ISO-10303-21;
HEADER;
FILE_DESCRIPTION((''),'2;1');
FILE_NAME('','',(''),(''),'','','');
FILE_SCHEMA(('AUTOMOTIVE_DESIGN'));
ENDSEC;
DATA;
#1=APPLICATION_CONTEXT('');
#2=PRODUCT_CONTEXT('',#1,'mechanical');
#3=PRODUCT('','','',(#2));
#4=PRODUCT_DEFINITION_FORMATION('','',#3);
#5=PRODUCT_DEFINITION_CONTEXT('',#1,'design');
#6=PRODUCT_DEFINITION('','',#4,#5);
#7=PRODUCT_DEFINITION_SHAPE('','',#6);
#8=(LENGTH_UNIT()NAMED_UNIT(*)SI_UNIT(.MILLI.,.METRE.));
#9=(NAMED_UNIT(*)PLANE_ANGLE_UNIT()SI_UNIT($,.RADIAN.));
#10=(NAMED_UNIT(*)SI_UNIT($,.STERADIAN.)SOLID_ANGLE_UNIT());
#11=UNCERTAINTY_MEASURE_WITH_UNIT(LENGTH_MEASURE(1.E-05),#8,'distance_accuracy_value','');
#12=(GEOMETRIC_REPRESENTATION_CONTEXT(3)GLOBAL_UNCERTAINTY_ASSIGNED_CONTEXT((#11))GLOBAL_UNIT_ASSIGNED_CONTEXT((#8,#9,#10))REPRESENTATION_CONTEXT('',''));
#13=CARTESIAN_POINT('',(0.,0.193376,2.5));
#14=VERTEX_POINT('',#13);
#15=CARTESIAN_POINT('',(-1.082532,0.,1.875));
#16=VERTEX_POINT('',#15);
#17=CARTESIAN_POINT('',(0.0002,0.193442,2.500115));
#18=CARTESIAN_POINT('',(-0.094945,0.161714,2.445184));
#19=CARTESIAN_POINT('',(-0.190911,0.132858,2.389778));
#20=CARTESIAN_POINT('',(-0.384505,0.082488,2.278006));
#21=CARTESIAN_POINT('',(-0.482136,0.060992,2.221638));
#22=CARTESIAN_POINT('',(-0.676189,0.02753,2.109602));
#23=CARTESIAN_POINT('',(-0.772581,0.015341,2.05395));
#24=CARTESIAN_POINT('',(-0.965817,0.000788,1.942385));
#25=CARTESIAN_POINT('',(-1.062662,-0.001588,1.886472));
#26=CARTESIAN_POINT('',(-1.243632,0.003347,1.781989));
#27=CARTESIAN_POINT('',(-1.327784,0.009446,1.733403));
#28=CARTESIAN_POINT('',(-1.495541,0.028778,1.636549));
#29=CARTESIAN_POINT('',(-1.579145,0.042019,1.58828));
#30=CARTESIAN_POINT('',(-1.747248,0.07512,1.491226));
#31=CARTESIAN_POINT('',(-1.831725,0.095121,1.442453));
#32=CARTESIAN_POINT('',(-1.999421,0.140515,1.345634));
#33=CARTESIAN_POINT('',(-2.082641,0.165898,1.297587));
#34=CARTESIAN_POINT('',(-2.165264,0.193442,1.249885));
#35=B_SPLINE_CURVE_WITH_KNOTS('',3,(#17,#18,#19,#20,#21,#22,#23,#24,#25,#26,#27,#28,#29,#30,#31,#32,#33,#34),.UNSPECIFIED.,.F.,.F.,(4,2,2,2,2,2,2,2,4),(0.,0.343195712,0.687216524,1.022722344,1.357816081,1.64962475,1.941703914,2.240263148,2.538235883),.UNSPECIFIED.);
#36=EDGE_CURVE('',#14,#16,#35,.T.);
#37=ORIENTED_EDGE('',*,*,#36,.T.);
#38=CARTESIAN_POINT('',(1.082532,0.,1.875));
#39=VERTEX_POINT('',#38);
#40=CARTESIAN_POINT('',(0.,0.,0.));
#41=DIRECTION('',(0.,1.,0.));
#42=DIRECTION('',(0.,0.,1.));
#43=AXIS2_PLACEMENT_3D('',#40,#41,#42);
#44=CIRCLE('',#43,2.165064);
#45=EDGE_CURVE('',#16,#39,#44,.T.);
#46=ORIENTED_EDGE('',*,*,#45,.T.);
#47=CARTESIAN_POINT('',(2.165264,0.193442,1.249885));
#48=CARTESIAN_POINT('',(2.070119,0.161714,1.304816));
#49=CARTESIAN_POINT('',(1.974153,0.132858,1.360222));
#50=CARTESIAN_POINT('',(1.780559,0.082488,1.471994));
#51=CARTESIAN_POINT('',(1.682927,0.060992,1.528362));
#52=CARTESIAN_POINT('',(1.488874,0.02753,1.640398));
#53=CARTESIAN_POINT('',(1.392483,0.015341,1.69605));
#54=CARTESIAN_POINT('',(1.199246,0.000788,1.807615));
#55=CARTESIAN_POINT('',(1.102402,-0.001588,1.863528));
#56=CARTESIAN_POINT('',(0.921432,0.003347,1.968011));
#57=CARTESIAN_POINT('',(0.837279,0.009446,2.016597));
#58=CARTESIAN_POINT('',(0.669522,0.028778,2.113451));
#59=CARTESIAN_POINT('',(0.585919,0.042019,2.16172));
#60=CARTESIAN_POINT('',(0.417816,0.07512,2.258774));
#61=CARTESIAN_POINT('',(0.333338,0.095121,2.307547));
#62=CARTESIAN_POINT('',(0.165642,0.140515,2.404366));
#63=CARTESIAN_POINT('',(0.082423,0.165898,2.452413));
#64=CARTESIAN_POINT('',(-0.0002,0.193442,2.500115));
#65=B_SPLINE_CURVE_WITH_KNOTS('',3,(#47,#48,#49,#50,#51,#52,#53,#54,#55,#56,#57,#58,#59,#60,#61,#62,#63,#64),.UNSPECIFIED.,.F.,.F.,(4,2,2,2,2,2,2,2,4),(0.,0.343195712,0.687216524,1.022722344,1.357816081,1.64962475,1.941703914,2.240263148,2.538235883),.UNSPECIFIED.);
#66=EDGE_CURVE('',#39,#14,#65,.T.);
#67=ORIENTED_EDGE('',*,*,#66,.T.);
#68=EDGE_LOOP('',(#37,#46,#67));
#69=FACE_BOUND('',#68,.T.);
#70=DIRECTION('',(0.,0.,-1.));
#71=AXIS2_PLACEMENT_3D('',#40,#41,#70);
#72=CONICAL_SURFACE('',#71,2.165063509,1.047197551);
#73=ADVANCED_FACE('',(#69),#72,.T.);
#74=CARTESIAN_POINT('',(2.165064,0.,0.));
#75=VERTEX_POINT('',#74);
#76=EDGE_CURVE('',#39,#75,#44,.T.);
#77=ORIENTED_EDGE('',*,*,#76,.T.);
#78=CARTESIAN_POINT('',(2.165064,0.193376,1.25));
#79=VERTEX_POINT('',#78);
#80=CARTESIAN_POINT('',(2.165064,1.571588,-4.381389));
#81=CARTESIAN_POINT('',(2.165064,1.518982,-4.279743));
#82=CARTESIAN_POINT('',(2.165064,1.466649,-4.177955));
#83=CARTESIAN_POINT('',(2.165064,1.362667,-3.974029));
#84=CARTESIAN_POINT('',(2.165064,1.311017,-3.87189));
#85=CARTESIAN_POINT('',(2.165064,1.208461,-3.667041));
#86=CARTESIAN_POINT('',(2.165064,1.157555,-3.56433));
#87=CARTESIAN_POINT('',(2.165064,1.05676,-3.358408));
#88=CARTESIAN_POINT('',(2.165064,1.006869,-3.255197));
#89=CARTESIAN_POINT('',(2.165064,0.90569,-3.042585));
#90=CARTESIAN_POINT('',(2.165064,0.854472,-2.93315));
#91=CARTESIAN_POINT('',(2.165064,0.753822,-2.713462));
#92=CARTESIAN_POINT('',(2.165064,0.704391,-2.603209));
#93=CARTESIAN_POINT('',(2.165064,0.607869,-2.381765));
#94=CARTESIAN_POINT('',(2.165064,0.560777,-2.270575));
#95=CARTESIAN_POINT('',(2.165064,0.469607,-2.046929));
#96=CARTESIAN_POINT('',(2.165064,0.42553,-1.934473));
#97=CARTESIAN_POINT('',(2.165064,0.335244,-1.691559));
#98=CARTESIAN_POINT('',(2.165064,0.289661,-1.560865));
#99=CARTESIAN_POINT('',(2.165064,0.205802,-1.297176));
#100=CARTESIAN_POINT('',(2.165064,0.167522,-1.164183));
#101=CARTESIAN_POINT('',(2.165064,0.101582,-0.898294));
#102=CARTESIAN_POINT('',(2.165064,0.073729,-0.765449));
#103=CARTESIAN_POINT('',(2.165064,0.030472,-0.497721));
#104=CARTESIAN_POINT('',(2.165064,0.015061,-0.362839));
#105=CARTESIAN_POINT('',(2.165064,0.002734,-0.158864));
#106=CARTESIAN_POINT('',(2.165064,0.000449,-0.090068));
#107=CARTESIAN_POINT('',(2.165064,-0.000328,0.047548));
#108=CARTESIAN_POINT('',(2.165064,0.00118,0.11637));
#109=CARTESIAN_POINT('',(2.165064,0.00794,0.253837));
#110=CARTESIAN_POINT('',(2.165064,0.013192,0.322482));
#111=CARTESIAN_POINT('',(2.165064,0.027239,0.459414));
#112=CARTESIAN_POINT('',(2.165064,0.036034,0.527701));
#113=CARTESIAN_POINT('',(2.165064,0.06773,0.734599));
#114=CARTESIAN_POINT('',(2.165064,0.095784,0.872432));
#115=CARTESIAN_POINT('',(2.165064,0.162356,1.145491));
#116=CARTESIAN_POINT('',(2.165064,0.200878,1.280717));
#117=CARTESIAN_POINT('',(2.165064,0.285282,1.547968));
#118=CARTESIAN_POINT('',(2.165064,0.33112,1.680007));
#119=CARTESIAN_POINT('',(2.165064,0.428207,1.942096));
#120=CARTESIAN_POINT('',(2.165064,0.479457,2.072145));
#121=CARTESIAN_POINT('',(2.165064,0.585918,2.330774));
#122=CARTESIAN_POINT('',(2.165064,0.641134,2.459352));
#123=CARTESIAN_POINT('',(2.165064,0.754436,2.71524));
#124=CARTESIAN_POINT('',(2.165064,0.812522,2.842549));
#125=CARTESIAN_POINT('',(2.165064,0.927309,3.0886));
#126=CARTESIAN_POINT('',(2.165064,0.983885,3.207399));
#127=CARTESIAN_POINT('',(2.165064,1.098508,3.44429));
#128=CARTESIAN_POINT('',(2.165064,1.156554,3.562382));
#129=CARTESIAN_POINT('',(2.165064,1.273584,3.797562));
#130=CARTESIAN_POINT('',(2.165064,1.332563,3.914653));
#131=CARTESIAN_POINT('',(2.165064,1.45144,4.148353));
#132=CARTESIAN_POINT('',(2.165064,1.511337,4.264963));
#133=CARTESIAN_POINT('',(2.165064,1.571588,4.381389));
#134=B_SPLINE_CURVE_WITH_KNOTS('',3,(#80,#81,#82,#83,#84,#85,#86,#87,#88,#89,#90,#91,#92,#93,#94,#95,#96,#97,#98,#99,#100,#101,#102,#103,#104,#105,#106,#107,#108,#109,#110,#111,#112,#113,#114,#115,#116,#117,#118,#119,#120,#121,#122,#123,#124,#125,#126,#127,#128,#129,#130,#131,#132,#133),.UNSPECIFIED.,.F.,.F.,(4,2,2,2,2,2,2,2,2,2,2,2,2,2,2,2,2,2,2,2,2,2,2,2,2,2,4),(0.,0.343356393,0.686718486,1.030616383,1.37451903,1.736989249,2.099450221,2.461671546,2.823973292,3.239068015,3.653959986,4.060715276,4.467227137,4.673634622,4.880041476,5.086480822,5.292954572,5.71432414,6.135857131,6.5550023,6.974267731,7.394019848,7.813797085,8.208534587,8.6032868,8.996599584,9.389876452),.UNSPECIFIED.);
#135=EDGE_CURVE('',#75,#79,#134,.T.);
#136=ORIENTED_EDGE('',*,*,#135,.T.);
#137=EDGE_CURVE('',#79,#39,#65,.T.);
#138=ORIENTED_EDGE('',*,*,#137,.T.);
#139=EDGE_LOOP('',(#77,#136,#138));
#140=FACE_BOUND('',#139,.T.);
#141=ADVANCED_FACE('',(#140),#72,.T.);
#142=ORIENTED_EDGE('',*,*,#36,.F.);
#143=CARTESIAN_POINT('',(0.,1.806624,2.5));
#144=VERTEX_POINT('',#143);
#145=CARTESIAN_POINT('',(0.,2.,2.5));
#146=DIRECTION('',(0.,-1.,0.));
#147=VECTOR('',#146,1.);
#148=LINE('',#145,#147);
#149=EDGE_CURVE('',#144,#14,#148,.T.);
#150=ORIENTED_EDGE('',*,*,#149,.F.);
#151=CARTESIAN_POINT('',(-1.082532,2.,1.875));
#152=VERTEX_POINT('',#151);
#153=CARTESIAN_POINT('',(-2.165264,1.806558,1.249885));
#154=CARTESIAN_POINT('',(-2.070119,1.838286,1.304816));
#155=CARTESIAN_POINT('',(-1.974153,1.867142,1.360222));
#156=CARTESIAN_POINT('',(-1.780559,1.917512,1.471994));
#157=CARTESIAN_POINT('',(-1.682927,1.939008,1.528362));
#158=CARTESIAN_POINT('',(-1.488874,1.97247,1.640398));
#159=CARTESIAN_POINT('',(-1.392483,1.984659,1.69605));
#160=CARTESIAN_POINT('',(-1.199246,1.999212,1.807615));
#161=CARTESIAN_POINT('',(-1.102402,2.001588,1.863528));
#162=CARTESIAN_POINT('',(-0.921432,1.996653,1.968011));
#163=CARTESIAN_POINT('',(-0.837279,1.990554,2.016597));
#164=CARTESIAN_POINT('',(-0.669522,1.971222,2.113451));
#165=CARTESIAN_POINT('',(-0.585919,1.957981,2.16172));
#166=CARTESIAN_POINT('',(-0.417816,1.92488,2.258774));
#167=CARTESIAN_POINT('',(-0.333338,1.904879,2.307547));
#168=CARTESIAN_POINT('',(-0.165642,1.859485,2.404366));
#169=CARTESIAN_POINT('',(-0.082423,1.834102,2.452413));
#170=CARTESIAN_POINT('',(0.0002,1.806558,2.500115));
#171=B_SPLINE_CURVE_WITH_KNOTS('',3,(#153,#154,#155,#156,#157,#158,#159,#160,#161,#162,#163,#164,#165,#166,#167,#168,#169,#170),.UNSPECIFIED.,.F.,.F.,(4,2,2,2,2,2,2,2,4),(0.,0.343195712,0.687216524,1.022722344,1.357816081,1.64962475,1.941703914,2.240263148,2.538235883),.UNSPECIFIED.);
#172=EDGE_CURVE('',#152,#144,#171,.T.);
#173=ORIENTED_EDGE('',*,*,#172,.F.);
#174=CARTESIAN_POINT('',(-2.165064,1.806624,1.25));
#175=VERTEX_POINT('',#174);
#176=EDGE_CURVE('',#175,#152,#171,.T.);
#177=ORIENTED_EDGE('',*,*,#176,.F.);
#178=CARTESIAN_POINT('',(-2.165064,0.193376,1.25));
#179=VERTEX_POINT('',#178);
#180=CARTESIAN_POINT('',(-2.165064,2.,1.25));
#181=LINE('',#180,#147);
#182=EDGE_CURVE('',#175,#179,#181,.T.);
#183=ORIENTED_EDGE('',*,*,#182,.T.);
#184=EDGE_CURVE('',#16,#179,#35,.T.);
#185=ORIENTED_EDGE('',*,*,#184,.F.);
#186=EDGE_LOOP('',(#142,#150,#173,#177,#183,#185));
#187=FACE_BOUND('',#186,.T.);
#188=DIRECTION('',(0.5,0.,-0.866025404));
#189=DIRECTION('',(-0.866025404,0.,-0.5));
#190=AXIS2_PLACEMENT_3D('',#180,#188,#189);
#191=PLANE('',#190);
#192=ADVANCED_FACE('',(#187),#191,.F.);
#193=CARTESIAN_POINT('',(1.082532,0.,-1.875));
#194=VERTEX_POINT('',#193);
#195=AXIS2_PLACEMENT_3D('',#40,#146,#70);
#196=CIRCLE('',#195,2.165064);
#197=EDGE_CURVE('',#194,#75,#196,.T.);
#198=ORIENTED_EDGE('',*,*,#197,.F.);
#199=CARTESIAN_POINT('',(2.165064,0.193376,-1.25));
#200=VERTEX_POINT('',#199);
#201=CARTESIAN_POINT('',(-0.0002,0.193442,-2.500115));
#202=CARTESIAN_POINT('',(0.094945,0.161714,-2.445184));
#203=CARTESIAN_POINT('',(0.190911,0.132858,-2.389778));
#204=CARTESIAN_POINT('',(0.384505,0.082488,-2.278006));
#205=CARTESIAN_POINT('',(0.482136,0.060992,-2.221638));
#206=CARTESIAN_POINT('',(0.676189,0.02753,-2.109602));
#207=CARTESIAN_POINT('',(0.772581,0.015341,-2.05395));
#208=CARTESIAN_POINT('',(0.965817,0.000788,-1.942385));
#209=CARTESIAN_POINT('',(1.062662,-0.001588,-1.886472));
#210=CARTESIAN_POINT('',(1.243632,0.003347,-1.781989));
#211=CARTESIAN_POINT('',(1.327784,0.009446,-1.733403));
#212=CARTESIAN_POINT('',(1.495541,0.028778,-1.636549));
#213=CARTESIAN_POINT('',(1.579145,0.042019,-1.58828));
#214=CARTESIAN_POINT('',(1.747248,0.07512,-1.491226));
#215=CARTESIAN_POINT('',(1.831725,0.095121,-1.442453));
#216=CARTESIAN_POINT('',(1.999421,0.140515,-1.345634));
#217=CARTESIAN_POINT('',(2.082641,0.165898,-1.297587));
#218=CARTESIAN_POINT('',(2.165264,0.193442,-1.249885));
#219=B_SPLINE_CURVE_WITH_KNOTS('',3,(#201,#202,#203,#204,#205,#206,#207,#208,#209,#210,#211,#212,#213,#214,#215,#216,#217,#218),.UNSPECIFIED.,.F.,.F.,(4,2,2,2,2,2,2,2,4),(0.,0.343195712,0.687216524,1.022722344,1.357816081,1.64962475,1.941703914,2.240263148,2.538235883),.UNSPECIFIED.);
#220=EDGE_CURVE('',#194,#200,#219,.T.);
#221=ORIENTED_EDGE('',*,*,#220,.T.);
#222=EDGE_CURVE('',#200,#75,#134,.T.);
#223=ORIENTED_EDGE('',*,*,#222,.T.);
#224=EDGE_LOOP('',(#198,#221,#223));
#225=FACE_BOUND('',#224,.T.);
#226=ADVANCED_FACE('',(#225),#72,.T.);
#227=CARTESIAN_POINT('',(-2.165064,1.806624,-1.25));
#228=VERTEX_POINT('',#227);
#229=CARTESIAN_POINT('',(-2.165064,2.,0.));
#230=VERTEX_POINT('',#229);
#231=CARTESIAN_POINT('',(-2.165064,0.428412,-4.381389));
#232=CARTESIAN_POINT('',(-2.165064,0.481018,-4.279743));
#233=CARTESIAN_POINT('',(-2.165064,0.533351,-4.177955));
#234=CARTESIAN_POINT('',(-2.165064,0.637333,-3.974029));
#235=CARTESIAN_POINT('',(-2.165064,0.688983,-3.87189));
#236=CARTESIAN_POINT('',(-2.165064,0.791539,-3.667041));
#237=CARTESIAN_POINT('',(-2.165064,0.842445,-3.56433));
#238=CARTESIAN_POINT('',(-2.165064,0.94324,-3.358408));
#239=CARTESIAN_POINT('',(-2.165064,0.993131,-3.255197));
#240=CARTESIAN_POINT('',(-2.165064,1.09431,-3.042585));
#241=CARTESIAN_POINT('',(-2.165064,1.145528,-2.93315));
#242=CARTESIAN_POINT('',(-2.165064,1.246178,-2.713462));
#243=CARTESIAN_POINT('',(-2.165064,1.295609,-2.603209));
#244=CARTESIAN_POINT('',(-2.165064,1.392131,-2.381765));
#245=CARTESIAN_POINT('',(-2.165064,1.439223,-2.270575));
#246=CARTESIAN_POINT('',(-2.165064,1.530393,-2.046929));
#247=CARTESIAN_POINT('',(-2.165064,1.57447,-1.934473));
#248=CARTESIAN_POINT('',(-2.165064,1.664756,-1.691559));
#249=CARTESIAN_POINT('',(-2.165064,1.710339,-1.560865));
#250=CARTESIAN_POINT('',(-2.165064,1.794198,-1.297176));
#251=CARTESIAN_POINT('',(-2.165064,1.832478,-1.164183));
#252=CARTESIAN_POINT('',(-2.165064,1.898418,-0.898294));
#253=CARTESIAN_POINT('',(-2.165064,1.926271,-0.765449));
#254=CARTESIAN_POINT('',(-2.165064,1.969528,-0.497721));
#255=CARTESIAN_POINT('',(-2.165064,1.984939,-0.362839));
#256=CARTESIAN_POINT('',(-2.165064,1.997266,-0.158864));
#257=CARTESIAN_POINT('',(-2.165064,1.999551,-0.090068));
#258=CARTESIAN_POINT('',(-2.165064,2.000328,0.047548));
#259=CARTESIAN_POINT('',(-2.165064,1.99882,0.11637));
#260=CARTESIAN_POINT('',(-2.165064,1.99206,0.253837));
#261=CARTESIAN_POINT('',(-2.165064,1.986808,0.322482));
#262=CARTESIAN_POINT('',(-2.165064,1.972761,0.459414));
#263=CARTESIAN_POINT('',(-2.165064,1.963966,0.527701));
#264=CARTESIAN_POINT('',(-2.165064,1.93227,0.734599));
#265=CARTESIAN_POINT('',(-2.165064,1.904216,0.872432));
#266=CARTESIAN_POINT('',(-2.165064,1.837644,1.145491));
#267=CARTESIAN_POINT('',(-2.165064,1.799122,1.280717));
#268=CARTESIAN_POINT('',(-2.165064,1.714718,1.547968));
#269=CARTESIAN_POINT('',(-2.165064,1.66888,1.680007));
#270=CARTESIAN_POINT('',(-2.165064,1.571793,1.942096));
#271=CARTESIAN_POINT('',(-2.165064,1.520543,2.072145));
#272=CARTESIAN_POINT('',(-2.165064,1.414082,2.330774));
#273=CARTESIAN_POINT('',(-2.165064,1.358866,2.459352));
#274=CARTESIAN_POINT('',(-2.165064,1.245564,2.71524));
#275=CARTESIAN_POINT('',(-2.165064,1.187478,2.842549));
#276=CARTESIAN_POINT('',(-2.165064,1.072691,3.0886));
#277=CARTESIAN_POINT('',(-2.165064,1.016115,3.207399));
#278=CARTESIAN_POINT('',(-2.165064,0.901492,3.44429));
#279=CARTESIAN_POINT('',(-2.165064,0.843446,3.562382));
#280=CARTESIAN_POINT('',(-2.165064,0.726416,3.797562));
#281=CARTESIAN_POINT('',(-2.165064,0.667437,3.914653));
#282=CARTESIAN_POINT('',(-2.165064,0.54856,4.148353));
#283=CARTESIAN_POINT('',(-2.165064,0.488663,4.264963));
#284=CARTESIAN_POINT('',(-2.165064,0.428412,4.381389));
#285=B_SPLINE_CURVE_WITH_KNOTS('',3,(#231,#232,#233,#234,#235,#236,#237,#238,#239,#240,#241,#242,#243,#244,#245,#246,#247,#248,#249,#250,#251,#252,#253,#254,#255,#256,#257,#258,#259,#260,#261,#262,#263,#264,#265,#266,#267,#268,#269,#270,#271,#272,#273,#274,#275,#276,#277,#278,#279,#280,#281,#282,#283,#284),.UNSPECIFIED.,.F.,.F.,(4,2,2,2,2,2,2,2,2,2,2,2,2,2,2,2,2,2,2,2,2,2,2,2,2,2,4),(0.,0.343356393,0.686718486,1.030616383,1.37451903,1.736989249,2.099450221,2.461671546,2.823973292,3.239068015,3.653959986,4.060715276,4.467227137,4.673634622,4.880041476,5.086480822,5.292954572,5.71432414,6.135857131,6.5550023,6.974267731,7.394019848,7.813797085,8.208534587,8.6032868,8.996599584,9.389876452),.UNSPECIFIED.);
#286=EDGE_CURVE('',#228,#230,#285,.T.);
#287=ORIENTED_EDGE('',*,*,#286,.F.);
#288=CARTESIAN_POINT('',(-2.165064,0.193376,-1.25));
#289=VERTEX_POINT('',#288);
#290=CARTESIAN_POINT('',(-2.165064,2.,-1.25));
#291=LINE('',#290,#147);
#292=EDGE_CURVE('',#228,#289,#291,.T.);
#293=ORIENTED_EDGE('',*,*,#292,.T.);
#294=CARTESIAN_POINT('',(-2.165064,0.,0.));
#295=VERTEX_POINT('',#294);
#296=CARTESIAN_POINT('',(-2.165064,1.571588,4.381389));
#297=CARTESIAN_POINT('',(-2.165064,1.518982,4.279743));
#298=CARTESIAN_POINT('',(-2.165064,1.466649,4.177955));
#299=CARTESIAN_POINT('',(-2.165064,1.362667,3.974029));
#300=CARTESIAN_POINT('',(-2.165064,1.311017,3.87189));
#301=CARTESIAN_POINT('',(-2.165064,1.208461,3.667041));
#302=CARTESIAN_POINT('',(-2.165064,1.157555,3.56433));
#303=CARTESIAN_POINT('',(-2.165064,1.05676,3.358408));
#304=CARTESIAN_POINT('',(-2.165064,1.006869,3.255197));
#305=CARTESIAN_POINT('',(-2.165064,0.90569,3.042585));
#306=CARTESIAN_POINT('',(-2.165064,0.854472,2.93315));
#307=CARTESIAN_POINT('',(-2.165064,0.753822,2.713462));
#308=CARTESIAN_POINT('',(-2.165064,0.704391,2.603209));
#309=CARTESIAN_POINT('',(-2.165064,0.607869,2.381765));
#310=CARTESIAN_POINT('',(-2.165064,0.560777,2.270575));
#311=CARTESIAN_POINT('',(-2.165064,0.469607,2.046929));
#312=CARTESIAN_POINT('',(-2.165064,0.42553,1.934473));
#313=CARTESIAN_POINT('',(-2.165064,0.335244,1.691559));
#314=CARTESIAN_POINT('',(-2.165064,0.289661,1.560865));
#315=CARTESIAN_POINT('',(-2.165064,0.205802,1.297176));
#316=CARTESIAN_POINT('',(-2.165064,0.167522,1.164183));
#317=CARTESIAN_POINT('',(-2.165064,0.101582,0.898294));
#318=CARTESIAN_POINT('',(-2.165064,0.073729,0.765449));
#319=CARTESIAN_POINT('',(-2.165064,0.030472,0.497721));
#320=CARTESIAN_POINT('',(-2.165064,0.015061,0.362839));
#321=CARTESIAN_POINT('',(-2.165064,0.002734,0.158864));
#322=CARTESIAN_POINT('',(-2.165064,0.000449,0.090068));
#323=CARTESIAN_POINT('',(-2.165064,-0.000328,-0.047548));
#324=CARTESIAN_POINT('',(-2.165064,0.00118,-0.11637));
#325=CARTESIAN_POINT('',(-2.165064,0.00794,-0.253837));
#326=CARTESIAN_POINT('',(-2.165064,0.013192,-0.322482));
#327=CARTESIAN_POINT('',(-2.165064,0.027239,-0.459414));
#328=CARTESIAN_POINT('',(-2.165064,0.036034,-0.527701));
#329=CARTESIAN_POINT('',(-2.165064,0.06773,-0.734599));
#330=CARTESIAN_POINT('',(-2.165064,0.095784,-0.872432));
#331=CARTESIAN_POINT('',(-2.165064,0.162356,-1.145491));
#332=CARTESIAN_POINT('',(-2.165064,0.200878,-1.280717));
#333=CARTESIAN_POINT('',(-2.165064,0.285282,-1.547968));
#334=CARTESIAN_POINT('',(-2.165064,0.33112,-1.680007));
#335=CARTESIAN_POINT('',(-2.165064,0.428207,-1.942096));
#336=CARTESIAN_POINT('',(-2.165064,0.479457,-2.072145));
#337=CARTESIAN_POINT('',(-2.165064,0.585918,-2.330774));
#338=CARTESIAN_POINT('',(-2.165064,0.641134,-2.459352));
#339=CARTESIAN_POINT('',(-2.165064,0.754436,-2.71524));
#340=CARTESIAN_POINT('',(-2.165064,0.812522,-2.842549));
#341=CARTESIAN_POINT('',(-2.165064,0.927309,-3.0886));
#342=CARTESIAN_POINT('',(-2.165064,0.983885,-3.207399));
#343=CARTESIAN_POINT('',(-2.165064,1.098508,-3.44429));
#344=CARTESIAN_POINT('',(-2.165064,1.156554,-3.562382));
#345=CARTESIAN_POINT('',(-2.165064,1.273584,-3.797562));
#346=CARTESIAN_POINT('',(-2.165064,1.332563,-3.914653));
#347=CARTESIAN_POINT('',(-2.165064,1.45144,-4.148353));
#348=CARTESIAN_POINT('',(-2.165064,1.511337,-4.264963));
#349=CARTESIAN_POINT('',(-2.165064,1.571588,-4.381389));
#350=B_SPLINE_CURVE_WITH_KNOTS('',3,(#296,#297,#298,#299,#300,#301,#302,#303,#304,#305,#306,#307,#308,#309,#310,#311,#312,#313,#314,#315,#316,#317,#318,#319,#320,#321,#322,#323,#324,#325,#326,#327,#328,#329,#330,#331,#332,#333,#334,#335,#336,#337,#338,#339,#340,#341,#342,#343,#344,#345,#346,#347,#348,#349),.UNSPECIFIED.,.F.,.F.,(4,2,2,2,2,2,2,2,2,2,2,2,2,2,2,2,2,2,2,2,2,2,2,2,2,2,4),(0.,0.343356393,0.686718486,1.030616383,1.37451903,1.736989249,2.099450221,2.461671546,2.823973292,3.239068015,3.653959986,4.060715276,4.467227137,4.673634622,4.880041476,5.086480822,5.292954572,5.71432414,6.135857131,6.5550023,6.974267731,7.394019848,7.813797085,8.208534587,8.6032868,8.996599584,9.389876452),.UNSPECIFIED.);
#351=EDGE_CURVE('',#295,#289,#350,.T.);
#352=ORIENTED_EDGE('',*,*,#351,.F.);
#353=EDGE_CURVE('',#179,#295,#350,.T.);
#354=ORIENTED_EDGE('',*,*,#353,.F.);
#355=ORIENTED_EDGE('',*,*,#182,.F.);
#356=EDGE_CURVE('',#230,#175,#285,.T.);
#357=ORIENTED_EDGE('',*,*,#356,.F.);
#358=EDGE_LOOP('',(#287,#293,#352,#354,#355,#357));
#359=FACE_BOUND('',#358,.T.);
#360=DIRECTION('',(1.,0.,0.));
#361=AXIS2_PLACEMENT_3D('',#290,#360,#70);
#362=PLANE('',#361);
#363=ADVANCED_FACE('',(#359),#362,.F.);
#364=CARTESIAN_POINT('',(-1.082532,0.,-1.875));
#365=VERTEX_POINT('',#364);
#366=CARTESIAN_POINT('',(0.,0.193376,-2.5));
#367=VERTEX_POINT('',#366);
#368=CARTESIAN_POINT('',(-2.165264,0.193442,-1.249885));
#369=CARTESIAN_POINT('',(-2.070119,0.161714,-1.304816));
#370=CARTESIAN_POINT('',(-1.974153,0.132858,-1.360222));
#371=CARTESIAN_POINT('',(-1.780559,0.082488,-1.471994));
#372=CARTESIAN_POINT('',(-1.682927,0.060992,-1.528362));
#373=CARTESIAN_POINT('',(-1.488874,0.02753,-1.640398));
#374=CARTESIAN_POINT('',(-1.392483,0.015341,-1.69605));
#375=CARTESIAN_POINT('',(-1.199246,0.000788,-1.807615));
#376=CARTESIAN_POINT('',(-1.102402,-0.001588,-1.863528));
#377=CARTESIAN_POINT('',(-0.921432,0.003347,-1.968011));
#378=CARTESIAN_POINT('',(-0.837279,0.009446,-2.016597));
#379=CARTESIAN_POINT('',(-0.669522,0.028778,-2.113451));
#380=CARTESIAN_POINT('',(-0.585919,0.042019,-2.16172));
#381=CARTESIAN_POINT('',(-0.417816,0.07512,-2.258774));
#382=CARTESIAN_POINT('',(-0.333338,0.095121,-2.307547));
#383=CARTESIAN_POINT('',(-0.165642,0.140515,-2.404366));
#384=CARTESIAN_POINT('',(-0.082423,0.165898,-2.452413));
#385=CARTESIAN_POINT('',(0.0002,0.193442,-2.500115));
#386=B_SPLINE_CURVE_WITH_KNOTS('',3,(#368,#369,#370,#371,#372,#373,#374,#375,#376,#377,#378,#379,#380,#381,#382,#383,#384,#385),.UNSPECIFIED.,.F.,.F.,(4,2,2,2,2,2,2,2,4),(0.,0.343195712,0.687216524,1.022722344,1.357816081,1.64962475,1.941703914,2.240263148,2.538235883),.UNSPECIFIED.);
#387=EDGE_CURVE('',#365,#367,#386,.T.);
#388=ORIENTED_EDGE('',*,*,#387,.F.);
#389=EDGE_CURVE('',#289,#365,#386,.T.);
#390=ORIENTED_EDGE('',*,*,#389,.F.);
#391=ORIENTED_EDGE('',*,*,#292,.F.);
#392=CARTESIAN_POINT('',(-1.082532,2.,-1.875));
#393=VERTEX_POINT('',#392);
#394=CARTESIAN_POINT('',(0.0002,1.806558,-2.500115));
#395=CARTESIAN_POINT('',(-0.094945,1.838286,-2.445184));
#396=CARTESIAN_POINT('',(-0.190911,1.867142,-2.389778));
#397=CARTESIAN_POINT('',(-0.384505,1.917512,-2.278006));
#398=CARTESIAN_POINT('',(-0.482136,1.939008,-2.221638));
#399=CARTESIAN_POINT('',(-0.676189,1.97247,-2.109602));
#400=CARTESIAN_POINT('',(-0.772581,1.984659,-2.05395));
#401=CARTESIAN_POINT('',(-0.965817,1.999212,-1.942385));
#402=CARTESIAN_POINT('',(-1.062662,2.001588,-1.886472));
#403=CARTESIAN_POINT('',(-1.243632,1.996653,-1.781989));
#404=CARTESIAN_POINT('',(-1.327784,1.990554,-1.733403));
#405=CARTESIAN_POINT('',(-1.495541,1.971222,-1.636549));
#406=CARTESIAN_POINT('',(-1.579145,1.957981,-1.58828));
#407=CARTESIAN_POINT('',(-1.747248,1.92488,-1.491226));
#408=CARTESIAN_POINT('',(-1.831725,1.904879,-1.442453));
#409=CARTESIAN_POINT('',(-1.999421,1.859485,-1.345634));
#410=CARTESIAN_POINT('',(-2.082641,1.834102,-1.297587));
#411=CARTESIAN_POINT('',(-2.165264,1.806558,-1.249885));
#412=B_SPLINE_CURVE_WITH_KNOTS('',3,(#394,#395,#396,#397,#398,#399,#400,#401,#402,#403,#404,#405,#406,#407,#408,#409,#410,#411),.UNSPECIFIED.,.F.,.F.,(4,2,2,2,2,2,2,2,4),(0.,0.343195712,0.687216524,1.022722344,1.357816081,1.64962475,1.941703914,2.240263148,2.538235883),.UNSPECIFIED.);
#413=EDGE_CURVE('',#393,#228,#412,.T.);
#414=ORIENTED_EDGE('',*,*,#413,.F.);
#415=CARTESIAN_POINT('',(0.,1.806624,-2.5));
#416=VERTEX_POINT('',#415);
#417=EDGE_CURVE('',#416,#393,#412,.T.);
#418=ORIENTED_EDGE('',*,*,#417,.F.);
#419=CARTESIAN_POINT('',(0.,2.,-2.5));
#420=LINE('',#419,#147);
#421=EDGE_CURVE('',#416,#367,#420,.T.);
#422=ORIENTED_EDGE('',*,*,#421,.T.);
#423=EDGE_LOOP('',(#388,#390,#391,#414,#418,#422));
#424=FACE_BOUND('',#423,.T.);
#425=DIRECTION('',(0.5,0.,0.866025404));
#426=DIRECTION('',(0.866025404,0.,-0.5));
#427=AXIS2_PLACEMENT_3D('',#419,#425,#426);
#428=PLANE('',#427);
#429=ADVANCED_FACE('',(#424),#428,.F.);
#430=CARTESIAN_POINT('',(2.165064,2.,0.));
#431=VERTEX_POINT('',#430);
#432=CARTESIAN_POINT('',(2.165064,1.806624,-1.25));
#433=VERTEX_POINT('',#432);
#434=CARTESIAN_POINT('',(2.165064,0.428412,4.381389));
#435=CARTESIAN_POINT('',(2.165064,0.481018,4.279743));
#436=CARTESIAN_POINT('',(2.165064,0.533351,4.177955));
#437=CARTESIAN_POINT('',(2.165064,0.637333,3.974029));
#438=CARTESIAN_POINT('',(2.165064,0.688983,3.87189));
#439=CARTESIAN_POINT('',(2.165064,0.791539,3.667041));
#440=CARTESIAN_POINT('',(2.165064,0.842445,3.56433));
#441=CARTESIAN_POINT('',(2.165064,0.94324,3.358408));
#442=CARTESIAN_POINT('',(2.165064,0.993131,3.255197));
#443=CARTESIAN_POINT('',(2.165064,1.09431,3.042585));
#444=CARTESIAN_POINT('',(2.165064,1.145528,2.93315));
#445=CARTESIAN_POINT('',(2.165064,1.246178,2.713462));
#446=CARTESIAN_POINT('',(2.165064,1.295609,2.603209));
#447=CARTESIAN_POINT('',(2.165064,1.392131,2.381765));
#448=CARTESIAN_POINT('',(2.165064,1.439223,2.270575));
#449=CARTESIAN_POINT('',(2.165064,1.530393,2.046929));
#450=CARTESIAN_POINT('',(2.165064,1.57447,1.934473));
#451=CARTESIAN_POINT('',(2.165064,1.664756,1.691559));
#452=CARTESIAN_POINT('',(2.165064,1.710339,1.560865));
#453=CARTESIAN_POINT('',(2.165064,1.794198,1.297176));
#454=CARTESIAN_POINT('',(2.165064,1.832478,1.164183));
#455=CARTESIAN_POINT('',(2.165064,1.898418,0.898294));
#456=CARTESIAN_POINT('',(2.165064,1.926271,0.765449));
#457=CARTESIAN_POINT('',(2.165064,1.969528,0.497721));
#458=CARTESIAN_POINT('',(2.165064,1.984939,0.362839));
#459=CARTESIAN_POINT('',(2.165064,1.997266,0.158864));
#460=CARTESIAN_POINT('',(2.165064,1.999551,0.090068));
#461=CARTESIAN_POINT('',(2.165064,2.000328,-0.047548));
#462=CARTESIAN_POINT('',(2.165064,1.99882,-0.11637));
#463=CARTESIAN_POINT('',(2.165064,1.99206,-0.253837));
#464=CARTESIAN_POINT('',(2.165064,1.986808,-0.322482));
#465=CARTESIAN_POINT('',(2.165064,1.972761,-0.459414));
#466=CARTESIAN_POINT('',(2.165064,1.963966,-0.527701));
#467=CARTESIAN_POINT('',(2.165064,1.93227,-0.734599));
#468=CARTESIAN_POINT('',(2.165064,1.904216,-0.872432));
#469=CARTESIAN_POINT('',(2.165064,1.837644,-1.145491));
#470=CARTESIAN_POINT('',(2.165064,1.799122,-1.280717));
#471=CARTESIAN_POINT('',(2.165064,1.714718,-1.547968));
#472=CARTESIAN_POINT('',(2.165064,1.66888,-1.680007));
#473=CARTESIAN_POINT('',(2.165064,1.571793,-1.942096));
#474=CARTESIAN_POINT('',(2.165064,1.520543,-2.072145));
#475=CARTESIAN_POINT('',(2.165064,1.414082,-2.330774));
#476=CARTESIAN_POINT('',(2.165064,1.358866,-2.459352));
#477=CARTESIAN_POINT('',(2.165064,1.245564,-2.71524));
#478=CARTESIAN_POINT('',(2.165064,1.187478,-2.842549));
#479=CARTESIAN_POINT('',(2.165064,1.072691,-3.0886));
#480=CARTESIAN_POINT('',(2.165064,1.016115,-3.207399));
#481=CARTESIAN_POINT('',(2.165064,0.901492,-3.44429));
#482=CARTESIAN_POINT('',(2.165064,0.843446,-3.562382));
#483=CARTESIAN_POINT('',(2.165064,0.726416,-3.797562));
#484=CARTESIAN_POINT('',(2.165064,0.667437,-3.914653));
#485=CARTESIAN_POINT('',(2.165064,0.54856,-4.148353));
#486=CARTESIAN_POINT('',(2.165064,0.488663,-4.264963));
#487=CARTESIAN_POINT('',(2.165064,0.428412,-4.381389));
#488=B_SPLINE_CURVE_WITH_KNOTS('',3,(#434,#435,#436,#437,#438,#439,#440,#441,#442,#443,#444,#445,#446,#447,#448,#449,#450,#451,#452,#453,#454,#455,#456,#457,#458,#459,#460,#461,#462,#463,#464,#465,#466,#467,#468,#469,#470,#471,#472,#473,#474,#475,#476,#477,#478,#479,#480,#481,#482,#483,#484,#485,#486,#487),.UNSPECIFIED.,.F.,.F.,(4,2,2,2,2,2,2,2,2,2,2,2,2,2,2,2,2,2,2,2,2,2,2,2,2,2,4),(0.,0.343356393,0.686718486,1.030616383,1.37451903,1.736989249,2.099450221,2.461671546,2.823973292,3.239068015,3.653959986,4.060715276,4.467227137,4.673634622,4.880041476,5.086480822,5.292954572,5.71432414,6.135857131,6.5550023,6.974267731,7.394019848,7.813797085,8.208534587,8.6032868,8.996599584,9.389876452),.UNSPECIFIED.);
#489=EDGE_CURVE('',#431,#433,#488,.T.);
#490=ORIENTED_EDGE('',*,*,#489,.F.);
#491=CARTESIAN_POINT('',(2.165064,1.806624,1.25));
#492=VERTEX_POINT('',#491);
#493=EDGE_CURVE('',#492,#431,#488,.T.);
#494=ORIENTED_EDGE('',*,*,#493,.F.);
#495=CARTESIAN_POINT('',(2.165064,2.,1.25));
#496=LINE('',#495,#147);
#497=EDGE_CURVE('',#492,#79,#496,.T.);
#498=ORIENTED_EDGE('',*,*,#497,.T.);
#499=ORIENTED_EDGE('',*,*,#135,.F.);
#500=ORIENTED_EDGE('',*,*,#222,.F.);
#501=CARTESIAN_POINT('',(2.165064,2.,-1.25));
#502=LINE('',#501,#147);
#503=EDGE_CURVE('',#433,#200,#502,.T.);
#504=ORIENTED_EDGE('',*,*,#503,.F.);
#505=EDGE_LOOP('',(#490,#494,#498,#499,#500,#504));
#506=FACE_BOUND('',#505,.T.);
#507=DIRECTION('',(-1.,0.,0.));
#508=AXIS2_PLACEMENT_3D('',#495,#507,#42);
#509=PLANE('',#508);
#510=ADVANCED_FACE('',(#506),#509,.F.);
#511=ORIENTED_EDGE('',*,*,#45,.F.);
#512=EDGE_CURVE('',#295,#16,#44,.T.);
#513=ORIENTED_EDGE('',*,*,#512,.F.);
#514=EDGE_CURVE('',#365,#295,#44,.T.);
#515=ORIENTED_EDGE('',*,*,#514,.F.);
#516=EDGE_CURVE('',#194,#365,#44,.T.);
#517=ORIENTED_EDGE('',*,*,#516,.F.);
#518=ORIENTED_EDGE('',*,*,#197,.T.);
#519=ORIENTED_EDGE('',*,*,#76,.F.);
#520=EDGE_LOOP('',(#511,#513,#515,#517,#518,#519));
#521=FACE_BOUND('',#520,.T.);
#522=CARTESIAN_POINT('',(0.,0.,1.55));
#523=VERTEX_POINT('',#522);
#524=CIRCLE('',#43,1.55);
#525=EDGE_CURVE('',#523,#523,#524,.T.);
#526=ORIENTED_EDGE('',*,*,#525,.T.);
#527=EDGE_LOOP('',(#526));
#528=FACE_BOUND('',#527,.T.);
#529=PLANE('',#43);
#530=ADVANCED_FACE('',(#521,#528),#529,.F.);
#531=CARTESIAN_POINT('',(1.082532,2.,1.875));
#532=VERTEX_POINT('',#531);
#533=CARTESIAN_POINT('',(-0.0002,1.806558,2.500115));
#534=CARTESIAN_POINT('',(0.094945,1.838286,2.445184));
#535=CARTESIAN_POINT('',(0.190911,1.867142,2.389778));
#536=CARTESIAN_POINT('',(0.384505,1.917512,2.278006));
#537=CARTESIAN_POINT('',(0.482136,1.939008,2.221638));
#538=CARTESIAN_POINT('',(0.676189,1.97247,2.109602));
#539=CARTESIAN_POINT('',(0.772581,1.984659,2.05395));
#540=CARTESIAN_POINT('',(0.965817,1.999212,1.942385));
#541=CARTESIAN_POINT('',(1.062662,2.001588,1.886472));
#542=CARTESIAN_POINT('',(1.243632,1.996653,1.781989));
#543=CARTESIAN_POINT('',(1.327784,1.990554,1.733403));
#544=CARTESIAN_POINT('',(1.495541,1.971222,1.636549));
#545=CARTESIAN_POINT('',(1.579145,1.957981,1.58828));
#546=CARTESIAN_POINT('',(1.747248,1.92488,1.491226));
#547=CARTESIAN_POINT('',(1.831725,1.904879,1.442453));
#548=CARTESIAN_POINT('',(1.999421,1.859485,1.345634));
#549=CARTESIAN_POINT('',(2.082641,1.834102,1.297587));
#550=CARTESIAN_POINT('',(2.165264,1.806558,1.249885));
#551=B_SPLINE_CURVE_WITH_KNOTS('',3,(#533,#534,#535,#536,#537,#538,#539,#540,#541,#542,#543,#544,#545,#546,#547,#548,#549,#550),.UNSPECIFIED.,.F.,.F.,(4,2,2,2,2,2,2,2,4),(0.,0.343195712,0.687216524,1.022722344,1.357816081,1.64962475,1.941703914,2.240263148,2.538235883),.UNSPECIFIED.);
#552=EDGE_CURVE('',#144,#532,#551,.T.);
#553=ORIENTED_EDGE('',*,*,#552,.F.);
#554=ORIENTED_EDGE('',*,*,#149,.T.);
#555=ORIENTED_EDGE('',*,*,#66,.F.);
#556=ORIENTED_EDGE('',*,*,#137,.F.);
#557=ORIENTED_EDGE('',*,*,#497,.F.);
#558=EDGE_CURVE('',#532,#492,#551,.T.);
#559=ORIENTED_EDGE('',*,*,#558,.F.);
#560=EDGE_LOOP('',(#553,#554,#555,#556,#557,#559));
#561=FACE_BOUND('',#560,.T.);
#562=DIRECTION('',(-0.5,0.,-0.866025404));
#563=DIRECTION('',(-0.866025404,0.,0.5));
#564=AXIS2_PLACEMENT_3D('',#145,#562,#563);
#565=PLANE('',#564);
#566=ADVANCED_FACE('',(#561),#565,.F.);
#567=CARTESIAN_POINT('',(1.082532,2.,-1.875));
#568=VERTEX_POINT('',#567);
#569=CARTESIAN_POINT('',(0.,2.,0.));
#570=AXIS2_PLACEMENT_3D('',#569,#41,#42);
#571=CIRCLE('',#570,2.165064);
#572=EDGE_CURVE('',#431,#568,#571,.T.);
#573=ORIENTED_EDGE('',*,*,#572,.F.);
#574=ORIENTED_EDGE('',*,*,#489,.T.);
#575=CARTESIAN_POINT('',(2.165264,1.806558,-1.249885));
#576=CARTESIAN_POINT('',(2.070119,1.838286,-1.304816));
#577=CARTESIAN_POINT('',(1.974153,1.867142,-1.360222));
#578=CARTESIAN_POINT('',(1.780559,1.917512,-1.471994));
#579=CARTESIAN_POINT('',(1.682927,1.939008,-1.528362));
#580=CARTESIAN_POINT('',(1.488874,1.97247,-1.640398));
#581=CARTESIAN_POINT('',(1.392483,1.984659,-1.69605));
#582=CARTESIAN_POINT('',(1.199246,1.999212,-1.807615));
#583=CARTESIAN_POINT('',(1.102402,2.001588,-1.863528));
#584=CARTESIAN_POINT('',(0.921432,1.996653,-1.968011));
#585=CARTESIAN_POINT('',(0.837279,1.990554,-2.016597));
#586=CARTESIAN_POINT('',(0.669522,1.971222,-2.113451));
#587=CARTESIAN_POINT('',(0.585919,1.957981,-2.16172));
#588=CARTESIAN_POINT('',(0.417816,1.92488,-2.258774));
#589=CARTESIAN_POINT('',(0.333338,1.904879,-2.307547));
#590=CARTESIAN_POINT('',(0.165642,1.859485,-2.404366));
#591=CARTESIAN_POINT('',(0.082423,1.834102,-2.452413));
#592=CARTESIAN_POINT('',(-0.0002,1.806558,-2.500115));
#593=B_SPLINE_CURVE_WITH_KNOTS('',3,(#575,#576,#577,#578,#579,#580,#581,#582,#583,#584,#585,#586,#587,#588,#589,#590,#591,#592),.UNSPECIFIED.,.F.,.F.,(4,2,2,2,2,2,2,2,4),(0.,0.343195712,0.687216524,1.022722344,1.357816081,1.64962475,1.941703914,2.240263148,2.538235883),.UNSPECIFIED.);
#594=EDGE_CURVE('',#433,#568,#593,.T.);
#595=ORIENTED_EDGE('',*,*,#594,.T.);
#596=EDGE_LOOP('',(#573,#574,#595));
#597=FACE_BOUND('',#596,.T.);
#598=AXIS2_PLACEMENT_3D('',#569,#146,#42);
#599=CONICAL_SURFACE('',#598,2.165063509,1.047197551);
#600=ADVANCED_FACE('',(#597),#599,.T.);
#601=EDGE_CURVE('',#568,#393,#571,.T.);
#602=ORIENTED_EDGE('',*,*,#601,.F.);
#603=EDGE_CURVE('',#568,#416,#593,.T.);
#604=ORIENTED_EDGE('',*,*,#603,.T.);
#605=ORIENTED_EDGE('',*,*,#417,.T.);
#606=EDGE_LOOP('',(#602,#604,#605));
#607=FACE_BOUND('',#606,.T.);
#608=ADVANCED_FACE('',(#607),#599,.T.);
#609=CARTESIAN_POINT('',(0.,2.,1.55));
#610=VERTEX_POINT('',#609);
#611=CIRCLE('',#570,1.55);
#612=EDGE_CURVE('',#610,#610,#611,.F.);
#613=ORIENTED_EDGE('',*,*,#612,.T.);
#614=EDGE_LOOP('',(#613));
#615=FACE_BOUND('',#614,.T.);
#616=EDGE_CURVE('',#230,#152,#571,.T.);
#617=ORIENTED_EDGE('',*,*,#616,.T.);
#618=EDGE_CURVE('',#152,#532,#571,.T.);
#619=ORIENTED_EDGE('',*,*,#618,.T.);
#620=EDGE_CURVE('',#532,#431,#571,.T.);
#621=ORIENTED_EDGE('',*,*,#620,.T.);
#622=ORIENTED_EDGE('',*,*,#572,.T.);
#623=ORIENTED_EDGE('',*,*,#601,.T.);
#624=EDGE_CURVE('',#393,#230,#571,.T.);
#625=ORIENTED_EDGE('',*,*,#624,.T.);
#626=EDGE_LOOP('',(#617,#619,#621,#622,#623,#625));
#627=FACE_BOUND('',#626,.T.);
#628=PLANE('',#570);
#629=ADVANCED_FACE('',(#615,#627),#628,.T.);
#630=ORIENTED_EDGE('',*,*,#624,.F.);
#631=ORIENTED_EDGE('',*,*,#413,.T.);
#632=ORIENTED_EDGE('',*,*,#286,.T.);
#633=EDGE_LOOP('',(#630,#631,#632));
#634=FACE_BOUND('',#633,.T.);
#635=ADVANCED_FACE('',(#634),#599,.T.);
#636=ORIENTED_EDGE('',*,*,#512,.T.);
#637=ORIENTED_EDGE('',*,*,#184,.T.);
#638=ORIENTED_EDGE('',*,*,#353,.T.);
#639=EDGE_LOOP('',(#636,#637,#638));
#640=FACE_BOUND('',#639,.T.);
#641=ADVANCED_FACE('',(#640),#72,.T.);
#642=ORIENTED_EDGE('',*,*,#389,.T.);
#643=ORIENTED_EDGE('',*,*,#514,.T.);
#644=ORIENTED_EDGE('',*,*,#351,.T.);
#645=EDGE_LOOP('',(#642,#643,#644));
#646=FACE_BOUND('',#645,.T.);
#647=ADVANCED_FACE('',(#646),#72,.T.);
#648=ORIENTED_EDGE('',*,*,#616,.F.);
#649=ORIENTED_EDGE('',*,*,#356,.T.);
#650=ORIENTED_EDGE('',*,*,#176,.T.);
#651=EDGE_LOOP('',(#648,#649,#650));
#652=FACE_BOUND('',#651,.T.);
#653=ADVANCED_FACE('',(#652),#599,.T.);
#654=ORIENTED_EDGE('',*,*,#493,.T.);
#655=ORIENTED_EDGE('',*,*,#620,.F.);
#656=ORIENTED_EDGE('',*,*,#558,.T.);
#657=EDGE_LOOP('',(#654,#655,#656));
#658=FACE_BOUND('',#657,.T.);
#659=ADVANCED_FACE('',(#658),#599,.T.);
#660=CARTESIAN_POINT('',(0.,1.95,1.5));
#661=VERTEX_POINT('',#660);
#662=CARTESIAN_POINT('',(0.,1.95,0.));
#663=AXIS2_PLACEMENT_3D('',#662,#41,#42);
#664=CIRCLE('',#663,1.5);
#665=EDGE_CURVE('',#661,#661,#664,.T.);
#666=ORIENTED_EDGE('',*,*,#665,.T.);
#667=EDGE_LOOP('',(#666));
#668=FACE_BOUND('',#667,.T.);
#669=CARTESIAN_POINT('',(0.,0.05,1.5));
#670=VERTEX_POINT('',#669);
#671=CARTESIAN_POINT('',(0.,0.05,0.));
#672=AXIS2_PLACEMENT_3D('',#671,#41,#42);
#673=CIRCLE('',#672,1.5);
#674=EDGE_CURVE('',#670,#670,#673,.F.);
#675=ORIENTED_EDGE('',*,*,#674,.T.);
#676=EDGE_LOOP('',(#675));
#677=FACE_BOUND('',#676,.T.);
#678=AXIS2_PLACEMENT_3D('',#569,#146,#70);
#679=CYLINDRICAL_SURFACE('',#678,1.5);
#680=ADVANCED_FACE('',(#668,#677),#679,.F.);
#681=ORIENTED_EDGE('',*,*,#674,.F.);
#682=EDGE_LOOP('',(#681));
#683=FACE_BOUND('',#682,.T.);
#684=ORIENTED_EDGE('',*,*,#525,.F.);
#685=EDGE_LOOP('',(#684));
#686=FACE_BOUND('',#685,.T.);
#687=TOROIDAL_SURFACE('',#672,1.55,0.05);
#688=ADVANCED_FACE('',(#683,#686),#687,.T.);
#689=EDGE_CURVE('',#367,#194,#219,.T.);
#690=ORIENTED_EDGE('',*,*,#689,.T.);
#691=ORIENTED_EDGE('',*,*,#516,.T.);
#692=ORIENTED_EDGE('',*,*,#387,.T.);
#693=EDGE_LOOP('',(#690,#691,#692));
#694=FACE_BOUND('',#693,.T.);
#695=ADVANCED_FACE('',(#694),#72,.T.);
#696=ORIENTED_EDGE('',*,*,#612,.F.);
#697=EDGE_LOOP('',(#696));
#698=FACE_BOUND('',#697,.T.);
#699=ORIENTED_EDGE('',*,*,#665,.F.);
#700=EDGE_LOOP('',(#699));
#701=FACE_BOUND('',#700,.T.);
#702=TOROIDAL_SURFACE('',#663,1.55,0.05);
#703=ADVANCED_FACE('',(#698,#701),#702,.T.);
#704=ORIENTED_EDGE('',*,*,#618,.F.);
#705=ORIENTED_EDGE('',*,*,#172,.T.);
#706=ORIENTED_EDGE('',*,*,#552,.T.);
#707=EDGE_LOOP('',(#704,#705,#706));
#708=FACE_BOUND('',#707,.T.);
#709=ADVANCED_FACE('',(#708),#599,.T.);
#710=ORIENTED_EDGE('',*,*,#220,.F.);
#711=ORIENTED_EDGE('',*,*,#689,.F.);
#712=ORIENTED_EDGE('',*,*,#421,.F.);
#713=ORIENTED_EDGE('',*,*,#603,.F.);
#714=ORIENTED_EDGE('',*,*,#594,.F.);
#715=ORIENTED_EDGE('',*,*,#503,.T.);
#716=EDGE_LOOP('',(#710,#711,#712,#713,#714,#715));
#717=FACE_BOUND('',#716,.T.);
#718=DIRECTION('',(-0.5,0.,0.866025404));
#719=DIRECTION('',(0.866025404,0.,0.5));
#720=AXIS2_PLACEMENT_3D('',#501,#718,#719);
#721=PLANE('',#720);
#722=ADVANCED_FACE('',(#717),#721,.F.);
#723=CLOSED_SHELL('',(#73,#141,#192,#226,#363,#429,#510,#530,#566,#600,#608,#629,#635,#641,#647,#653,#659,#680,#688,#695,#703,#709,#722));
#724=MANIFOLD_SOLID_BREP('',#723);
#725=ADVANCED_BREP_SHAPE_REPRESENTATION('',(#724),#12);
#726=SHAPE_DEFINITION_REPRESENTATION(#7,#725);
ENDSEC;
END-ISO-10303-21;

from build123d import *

# Parameters (mm, degrees)
SKETCH1_R           = 1.5
BOSS_EXTRUDE1_DEPTH = 2
SKETCH2_OUTSIDE_W   = 14.64
SKETCH2_OUTSIDE_H   = 15.31
SKETCH2_OUTSIDE_R   = 2.165063509
CUT_EXTRUDE1_DEPTH  = 2
CUT_EXTRUDE1_DRAFT  = -60
SKETCH3_OUTSIDE_W   = 14.64
SKETCH3_OUTSIDE_H   = 15.31
SKETCH3_OUTSIDE_R   = 2.165063509
CUT_EXTRUDE2_DEPTH  = 2
CUT_EXTRUDE2_DRAFT  = -60
FILLET1_R           = 0.05


with BuildPart() as part:
    # Sketch1 → Boss-Extrude1 (new body)
    with BuildSketch(Plane(origin=(0, 0, 0), x_dir=(1, 0, 0), z_dir=(0, 1, 0))):
        Polygon((0, 2.5), (-2.165063509, 1.25), (-2.165063509, -1.25), (0, -2.5), (2.165063509, -1.25), (2.165063509, 1.25), align=None)
        with Locations(Location((0, 0, 0), (0, 0, 270))):
            Circle(SKETCH1_R, mode=Mode.SUBTRACT)
    extrude(amount=BOSS_EXTRUDE1_DEPTH)


with BuildPart() as cut_extrude1_tool:
    # Sketch2 outside → Cut-Extrude1 (with draft: the straight prism first)
    with BuildSketch(Plane(origin=(0, 2, 0), x_dir=(1, 0, 0), z_dir=(0, 1, 0))):
        Rectangle(SKETCH2_OUTSIDE_W, SKETCH2_OUTSIDE_H)
        Circle(SKETCH2_OUTSIDE_R, mode=Mode.SUBTRACT)
    extrude(amount=-CUT_EXTRUDE1_DEPTH)
    # Cut-Extrude1: the draft: its side faces are tilted about the plane it starts from
    cut_extrude1_sides = [cut_extrude1_tool.faces().sort_by_distance(p)[0] for p in [
        (0, 1, 7.655),
        (7.32, 1, 0),
        (0, 1, -7.655),
        (-7.32, 1, 0),
        (-2.165063509, 1, 0),
    ]]
    draft(cut_extrude1_sides, Plane(origin=(0, 2, 0), x_dir=(1, 0, 0), z_dir=(0, 1, 0)), CUT_EXTRUDE1_DRAFT)


with BuildPart() as part_1:
    add(part.part)

    # Cut-Extrude1: cut by cut_extrude1_tool
    add(cut_extrude1_tool.part, mode=Mode.SUBTRACT)


with BuildPart() as cut_extrude2_tool:
    # Sketch3 outside → Cut-Extrude2 (with draft: the straight prism first)
    with BuildSketch(Plane.XZ):
        Rectangle(SKETCH3_OUTSIDE_W, SKETCH3_OUTSIDE_H)
        Circle(SKETCH3_OUTSIDE_R, mode=Mode.SUBTRACT)
    extrude(amount=-CUT_EXTRUDE2_DEPTH)
    # Cut-Extrude2: the draft: its side faces are tilted about the plane it starts from
    cut_extrude2_sides = [cut_extrude2_tool.faces().sort_by_distance(p)[0] for p in [
        (0, 1, -7.655),
        (7.32, 1, 0),
        (0, 1, 7.655),
        (-7.32, 1, 0),
        (-2.165063509, 1, 0),
    ]]
    draft(cut_extrude2_sides, Plane.XZ, CUT_EXTRUDE2_DRAFT)


with BuildPart() as part_2:
    add(part_1.part)

    # Cut-Extrude2: cut by cut_extrude2_tool
    add(cut_extrude2_tool.part, mode=Mode.SUBTRACT)

    # Fillet1
    fillet1_edges = [part_2.edges().sort_by_distance(p)[0] for p in [
        (0, 0, -1.5),
        (0, 2, -1.5),
    ]]
    fillet(fillet1_edges, radius=FILLET1_R)


solid = part_2.part
